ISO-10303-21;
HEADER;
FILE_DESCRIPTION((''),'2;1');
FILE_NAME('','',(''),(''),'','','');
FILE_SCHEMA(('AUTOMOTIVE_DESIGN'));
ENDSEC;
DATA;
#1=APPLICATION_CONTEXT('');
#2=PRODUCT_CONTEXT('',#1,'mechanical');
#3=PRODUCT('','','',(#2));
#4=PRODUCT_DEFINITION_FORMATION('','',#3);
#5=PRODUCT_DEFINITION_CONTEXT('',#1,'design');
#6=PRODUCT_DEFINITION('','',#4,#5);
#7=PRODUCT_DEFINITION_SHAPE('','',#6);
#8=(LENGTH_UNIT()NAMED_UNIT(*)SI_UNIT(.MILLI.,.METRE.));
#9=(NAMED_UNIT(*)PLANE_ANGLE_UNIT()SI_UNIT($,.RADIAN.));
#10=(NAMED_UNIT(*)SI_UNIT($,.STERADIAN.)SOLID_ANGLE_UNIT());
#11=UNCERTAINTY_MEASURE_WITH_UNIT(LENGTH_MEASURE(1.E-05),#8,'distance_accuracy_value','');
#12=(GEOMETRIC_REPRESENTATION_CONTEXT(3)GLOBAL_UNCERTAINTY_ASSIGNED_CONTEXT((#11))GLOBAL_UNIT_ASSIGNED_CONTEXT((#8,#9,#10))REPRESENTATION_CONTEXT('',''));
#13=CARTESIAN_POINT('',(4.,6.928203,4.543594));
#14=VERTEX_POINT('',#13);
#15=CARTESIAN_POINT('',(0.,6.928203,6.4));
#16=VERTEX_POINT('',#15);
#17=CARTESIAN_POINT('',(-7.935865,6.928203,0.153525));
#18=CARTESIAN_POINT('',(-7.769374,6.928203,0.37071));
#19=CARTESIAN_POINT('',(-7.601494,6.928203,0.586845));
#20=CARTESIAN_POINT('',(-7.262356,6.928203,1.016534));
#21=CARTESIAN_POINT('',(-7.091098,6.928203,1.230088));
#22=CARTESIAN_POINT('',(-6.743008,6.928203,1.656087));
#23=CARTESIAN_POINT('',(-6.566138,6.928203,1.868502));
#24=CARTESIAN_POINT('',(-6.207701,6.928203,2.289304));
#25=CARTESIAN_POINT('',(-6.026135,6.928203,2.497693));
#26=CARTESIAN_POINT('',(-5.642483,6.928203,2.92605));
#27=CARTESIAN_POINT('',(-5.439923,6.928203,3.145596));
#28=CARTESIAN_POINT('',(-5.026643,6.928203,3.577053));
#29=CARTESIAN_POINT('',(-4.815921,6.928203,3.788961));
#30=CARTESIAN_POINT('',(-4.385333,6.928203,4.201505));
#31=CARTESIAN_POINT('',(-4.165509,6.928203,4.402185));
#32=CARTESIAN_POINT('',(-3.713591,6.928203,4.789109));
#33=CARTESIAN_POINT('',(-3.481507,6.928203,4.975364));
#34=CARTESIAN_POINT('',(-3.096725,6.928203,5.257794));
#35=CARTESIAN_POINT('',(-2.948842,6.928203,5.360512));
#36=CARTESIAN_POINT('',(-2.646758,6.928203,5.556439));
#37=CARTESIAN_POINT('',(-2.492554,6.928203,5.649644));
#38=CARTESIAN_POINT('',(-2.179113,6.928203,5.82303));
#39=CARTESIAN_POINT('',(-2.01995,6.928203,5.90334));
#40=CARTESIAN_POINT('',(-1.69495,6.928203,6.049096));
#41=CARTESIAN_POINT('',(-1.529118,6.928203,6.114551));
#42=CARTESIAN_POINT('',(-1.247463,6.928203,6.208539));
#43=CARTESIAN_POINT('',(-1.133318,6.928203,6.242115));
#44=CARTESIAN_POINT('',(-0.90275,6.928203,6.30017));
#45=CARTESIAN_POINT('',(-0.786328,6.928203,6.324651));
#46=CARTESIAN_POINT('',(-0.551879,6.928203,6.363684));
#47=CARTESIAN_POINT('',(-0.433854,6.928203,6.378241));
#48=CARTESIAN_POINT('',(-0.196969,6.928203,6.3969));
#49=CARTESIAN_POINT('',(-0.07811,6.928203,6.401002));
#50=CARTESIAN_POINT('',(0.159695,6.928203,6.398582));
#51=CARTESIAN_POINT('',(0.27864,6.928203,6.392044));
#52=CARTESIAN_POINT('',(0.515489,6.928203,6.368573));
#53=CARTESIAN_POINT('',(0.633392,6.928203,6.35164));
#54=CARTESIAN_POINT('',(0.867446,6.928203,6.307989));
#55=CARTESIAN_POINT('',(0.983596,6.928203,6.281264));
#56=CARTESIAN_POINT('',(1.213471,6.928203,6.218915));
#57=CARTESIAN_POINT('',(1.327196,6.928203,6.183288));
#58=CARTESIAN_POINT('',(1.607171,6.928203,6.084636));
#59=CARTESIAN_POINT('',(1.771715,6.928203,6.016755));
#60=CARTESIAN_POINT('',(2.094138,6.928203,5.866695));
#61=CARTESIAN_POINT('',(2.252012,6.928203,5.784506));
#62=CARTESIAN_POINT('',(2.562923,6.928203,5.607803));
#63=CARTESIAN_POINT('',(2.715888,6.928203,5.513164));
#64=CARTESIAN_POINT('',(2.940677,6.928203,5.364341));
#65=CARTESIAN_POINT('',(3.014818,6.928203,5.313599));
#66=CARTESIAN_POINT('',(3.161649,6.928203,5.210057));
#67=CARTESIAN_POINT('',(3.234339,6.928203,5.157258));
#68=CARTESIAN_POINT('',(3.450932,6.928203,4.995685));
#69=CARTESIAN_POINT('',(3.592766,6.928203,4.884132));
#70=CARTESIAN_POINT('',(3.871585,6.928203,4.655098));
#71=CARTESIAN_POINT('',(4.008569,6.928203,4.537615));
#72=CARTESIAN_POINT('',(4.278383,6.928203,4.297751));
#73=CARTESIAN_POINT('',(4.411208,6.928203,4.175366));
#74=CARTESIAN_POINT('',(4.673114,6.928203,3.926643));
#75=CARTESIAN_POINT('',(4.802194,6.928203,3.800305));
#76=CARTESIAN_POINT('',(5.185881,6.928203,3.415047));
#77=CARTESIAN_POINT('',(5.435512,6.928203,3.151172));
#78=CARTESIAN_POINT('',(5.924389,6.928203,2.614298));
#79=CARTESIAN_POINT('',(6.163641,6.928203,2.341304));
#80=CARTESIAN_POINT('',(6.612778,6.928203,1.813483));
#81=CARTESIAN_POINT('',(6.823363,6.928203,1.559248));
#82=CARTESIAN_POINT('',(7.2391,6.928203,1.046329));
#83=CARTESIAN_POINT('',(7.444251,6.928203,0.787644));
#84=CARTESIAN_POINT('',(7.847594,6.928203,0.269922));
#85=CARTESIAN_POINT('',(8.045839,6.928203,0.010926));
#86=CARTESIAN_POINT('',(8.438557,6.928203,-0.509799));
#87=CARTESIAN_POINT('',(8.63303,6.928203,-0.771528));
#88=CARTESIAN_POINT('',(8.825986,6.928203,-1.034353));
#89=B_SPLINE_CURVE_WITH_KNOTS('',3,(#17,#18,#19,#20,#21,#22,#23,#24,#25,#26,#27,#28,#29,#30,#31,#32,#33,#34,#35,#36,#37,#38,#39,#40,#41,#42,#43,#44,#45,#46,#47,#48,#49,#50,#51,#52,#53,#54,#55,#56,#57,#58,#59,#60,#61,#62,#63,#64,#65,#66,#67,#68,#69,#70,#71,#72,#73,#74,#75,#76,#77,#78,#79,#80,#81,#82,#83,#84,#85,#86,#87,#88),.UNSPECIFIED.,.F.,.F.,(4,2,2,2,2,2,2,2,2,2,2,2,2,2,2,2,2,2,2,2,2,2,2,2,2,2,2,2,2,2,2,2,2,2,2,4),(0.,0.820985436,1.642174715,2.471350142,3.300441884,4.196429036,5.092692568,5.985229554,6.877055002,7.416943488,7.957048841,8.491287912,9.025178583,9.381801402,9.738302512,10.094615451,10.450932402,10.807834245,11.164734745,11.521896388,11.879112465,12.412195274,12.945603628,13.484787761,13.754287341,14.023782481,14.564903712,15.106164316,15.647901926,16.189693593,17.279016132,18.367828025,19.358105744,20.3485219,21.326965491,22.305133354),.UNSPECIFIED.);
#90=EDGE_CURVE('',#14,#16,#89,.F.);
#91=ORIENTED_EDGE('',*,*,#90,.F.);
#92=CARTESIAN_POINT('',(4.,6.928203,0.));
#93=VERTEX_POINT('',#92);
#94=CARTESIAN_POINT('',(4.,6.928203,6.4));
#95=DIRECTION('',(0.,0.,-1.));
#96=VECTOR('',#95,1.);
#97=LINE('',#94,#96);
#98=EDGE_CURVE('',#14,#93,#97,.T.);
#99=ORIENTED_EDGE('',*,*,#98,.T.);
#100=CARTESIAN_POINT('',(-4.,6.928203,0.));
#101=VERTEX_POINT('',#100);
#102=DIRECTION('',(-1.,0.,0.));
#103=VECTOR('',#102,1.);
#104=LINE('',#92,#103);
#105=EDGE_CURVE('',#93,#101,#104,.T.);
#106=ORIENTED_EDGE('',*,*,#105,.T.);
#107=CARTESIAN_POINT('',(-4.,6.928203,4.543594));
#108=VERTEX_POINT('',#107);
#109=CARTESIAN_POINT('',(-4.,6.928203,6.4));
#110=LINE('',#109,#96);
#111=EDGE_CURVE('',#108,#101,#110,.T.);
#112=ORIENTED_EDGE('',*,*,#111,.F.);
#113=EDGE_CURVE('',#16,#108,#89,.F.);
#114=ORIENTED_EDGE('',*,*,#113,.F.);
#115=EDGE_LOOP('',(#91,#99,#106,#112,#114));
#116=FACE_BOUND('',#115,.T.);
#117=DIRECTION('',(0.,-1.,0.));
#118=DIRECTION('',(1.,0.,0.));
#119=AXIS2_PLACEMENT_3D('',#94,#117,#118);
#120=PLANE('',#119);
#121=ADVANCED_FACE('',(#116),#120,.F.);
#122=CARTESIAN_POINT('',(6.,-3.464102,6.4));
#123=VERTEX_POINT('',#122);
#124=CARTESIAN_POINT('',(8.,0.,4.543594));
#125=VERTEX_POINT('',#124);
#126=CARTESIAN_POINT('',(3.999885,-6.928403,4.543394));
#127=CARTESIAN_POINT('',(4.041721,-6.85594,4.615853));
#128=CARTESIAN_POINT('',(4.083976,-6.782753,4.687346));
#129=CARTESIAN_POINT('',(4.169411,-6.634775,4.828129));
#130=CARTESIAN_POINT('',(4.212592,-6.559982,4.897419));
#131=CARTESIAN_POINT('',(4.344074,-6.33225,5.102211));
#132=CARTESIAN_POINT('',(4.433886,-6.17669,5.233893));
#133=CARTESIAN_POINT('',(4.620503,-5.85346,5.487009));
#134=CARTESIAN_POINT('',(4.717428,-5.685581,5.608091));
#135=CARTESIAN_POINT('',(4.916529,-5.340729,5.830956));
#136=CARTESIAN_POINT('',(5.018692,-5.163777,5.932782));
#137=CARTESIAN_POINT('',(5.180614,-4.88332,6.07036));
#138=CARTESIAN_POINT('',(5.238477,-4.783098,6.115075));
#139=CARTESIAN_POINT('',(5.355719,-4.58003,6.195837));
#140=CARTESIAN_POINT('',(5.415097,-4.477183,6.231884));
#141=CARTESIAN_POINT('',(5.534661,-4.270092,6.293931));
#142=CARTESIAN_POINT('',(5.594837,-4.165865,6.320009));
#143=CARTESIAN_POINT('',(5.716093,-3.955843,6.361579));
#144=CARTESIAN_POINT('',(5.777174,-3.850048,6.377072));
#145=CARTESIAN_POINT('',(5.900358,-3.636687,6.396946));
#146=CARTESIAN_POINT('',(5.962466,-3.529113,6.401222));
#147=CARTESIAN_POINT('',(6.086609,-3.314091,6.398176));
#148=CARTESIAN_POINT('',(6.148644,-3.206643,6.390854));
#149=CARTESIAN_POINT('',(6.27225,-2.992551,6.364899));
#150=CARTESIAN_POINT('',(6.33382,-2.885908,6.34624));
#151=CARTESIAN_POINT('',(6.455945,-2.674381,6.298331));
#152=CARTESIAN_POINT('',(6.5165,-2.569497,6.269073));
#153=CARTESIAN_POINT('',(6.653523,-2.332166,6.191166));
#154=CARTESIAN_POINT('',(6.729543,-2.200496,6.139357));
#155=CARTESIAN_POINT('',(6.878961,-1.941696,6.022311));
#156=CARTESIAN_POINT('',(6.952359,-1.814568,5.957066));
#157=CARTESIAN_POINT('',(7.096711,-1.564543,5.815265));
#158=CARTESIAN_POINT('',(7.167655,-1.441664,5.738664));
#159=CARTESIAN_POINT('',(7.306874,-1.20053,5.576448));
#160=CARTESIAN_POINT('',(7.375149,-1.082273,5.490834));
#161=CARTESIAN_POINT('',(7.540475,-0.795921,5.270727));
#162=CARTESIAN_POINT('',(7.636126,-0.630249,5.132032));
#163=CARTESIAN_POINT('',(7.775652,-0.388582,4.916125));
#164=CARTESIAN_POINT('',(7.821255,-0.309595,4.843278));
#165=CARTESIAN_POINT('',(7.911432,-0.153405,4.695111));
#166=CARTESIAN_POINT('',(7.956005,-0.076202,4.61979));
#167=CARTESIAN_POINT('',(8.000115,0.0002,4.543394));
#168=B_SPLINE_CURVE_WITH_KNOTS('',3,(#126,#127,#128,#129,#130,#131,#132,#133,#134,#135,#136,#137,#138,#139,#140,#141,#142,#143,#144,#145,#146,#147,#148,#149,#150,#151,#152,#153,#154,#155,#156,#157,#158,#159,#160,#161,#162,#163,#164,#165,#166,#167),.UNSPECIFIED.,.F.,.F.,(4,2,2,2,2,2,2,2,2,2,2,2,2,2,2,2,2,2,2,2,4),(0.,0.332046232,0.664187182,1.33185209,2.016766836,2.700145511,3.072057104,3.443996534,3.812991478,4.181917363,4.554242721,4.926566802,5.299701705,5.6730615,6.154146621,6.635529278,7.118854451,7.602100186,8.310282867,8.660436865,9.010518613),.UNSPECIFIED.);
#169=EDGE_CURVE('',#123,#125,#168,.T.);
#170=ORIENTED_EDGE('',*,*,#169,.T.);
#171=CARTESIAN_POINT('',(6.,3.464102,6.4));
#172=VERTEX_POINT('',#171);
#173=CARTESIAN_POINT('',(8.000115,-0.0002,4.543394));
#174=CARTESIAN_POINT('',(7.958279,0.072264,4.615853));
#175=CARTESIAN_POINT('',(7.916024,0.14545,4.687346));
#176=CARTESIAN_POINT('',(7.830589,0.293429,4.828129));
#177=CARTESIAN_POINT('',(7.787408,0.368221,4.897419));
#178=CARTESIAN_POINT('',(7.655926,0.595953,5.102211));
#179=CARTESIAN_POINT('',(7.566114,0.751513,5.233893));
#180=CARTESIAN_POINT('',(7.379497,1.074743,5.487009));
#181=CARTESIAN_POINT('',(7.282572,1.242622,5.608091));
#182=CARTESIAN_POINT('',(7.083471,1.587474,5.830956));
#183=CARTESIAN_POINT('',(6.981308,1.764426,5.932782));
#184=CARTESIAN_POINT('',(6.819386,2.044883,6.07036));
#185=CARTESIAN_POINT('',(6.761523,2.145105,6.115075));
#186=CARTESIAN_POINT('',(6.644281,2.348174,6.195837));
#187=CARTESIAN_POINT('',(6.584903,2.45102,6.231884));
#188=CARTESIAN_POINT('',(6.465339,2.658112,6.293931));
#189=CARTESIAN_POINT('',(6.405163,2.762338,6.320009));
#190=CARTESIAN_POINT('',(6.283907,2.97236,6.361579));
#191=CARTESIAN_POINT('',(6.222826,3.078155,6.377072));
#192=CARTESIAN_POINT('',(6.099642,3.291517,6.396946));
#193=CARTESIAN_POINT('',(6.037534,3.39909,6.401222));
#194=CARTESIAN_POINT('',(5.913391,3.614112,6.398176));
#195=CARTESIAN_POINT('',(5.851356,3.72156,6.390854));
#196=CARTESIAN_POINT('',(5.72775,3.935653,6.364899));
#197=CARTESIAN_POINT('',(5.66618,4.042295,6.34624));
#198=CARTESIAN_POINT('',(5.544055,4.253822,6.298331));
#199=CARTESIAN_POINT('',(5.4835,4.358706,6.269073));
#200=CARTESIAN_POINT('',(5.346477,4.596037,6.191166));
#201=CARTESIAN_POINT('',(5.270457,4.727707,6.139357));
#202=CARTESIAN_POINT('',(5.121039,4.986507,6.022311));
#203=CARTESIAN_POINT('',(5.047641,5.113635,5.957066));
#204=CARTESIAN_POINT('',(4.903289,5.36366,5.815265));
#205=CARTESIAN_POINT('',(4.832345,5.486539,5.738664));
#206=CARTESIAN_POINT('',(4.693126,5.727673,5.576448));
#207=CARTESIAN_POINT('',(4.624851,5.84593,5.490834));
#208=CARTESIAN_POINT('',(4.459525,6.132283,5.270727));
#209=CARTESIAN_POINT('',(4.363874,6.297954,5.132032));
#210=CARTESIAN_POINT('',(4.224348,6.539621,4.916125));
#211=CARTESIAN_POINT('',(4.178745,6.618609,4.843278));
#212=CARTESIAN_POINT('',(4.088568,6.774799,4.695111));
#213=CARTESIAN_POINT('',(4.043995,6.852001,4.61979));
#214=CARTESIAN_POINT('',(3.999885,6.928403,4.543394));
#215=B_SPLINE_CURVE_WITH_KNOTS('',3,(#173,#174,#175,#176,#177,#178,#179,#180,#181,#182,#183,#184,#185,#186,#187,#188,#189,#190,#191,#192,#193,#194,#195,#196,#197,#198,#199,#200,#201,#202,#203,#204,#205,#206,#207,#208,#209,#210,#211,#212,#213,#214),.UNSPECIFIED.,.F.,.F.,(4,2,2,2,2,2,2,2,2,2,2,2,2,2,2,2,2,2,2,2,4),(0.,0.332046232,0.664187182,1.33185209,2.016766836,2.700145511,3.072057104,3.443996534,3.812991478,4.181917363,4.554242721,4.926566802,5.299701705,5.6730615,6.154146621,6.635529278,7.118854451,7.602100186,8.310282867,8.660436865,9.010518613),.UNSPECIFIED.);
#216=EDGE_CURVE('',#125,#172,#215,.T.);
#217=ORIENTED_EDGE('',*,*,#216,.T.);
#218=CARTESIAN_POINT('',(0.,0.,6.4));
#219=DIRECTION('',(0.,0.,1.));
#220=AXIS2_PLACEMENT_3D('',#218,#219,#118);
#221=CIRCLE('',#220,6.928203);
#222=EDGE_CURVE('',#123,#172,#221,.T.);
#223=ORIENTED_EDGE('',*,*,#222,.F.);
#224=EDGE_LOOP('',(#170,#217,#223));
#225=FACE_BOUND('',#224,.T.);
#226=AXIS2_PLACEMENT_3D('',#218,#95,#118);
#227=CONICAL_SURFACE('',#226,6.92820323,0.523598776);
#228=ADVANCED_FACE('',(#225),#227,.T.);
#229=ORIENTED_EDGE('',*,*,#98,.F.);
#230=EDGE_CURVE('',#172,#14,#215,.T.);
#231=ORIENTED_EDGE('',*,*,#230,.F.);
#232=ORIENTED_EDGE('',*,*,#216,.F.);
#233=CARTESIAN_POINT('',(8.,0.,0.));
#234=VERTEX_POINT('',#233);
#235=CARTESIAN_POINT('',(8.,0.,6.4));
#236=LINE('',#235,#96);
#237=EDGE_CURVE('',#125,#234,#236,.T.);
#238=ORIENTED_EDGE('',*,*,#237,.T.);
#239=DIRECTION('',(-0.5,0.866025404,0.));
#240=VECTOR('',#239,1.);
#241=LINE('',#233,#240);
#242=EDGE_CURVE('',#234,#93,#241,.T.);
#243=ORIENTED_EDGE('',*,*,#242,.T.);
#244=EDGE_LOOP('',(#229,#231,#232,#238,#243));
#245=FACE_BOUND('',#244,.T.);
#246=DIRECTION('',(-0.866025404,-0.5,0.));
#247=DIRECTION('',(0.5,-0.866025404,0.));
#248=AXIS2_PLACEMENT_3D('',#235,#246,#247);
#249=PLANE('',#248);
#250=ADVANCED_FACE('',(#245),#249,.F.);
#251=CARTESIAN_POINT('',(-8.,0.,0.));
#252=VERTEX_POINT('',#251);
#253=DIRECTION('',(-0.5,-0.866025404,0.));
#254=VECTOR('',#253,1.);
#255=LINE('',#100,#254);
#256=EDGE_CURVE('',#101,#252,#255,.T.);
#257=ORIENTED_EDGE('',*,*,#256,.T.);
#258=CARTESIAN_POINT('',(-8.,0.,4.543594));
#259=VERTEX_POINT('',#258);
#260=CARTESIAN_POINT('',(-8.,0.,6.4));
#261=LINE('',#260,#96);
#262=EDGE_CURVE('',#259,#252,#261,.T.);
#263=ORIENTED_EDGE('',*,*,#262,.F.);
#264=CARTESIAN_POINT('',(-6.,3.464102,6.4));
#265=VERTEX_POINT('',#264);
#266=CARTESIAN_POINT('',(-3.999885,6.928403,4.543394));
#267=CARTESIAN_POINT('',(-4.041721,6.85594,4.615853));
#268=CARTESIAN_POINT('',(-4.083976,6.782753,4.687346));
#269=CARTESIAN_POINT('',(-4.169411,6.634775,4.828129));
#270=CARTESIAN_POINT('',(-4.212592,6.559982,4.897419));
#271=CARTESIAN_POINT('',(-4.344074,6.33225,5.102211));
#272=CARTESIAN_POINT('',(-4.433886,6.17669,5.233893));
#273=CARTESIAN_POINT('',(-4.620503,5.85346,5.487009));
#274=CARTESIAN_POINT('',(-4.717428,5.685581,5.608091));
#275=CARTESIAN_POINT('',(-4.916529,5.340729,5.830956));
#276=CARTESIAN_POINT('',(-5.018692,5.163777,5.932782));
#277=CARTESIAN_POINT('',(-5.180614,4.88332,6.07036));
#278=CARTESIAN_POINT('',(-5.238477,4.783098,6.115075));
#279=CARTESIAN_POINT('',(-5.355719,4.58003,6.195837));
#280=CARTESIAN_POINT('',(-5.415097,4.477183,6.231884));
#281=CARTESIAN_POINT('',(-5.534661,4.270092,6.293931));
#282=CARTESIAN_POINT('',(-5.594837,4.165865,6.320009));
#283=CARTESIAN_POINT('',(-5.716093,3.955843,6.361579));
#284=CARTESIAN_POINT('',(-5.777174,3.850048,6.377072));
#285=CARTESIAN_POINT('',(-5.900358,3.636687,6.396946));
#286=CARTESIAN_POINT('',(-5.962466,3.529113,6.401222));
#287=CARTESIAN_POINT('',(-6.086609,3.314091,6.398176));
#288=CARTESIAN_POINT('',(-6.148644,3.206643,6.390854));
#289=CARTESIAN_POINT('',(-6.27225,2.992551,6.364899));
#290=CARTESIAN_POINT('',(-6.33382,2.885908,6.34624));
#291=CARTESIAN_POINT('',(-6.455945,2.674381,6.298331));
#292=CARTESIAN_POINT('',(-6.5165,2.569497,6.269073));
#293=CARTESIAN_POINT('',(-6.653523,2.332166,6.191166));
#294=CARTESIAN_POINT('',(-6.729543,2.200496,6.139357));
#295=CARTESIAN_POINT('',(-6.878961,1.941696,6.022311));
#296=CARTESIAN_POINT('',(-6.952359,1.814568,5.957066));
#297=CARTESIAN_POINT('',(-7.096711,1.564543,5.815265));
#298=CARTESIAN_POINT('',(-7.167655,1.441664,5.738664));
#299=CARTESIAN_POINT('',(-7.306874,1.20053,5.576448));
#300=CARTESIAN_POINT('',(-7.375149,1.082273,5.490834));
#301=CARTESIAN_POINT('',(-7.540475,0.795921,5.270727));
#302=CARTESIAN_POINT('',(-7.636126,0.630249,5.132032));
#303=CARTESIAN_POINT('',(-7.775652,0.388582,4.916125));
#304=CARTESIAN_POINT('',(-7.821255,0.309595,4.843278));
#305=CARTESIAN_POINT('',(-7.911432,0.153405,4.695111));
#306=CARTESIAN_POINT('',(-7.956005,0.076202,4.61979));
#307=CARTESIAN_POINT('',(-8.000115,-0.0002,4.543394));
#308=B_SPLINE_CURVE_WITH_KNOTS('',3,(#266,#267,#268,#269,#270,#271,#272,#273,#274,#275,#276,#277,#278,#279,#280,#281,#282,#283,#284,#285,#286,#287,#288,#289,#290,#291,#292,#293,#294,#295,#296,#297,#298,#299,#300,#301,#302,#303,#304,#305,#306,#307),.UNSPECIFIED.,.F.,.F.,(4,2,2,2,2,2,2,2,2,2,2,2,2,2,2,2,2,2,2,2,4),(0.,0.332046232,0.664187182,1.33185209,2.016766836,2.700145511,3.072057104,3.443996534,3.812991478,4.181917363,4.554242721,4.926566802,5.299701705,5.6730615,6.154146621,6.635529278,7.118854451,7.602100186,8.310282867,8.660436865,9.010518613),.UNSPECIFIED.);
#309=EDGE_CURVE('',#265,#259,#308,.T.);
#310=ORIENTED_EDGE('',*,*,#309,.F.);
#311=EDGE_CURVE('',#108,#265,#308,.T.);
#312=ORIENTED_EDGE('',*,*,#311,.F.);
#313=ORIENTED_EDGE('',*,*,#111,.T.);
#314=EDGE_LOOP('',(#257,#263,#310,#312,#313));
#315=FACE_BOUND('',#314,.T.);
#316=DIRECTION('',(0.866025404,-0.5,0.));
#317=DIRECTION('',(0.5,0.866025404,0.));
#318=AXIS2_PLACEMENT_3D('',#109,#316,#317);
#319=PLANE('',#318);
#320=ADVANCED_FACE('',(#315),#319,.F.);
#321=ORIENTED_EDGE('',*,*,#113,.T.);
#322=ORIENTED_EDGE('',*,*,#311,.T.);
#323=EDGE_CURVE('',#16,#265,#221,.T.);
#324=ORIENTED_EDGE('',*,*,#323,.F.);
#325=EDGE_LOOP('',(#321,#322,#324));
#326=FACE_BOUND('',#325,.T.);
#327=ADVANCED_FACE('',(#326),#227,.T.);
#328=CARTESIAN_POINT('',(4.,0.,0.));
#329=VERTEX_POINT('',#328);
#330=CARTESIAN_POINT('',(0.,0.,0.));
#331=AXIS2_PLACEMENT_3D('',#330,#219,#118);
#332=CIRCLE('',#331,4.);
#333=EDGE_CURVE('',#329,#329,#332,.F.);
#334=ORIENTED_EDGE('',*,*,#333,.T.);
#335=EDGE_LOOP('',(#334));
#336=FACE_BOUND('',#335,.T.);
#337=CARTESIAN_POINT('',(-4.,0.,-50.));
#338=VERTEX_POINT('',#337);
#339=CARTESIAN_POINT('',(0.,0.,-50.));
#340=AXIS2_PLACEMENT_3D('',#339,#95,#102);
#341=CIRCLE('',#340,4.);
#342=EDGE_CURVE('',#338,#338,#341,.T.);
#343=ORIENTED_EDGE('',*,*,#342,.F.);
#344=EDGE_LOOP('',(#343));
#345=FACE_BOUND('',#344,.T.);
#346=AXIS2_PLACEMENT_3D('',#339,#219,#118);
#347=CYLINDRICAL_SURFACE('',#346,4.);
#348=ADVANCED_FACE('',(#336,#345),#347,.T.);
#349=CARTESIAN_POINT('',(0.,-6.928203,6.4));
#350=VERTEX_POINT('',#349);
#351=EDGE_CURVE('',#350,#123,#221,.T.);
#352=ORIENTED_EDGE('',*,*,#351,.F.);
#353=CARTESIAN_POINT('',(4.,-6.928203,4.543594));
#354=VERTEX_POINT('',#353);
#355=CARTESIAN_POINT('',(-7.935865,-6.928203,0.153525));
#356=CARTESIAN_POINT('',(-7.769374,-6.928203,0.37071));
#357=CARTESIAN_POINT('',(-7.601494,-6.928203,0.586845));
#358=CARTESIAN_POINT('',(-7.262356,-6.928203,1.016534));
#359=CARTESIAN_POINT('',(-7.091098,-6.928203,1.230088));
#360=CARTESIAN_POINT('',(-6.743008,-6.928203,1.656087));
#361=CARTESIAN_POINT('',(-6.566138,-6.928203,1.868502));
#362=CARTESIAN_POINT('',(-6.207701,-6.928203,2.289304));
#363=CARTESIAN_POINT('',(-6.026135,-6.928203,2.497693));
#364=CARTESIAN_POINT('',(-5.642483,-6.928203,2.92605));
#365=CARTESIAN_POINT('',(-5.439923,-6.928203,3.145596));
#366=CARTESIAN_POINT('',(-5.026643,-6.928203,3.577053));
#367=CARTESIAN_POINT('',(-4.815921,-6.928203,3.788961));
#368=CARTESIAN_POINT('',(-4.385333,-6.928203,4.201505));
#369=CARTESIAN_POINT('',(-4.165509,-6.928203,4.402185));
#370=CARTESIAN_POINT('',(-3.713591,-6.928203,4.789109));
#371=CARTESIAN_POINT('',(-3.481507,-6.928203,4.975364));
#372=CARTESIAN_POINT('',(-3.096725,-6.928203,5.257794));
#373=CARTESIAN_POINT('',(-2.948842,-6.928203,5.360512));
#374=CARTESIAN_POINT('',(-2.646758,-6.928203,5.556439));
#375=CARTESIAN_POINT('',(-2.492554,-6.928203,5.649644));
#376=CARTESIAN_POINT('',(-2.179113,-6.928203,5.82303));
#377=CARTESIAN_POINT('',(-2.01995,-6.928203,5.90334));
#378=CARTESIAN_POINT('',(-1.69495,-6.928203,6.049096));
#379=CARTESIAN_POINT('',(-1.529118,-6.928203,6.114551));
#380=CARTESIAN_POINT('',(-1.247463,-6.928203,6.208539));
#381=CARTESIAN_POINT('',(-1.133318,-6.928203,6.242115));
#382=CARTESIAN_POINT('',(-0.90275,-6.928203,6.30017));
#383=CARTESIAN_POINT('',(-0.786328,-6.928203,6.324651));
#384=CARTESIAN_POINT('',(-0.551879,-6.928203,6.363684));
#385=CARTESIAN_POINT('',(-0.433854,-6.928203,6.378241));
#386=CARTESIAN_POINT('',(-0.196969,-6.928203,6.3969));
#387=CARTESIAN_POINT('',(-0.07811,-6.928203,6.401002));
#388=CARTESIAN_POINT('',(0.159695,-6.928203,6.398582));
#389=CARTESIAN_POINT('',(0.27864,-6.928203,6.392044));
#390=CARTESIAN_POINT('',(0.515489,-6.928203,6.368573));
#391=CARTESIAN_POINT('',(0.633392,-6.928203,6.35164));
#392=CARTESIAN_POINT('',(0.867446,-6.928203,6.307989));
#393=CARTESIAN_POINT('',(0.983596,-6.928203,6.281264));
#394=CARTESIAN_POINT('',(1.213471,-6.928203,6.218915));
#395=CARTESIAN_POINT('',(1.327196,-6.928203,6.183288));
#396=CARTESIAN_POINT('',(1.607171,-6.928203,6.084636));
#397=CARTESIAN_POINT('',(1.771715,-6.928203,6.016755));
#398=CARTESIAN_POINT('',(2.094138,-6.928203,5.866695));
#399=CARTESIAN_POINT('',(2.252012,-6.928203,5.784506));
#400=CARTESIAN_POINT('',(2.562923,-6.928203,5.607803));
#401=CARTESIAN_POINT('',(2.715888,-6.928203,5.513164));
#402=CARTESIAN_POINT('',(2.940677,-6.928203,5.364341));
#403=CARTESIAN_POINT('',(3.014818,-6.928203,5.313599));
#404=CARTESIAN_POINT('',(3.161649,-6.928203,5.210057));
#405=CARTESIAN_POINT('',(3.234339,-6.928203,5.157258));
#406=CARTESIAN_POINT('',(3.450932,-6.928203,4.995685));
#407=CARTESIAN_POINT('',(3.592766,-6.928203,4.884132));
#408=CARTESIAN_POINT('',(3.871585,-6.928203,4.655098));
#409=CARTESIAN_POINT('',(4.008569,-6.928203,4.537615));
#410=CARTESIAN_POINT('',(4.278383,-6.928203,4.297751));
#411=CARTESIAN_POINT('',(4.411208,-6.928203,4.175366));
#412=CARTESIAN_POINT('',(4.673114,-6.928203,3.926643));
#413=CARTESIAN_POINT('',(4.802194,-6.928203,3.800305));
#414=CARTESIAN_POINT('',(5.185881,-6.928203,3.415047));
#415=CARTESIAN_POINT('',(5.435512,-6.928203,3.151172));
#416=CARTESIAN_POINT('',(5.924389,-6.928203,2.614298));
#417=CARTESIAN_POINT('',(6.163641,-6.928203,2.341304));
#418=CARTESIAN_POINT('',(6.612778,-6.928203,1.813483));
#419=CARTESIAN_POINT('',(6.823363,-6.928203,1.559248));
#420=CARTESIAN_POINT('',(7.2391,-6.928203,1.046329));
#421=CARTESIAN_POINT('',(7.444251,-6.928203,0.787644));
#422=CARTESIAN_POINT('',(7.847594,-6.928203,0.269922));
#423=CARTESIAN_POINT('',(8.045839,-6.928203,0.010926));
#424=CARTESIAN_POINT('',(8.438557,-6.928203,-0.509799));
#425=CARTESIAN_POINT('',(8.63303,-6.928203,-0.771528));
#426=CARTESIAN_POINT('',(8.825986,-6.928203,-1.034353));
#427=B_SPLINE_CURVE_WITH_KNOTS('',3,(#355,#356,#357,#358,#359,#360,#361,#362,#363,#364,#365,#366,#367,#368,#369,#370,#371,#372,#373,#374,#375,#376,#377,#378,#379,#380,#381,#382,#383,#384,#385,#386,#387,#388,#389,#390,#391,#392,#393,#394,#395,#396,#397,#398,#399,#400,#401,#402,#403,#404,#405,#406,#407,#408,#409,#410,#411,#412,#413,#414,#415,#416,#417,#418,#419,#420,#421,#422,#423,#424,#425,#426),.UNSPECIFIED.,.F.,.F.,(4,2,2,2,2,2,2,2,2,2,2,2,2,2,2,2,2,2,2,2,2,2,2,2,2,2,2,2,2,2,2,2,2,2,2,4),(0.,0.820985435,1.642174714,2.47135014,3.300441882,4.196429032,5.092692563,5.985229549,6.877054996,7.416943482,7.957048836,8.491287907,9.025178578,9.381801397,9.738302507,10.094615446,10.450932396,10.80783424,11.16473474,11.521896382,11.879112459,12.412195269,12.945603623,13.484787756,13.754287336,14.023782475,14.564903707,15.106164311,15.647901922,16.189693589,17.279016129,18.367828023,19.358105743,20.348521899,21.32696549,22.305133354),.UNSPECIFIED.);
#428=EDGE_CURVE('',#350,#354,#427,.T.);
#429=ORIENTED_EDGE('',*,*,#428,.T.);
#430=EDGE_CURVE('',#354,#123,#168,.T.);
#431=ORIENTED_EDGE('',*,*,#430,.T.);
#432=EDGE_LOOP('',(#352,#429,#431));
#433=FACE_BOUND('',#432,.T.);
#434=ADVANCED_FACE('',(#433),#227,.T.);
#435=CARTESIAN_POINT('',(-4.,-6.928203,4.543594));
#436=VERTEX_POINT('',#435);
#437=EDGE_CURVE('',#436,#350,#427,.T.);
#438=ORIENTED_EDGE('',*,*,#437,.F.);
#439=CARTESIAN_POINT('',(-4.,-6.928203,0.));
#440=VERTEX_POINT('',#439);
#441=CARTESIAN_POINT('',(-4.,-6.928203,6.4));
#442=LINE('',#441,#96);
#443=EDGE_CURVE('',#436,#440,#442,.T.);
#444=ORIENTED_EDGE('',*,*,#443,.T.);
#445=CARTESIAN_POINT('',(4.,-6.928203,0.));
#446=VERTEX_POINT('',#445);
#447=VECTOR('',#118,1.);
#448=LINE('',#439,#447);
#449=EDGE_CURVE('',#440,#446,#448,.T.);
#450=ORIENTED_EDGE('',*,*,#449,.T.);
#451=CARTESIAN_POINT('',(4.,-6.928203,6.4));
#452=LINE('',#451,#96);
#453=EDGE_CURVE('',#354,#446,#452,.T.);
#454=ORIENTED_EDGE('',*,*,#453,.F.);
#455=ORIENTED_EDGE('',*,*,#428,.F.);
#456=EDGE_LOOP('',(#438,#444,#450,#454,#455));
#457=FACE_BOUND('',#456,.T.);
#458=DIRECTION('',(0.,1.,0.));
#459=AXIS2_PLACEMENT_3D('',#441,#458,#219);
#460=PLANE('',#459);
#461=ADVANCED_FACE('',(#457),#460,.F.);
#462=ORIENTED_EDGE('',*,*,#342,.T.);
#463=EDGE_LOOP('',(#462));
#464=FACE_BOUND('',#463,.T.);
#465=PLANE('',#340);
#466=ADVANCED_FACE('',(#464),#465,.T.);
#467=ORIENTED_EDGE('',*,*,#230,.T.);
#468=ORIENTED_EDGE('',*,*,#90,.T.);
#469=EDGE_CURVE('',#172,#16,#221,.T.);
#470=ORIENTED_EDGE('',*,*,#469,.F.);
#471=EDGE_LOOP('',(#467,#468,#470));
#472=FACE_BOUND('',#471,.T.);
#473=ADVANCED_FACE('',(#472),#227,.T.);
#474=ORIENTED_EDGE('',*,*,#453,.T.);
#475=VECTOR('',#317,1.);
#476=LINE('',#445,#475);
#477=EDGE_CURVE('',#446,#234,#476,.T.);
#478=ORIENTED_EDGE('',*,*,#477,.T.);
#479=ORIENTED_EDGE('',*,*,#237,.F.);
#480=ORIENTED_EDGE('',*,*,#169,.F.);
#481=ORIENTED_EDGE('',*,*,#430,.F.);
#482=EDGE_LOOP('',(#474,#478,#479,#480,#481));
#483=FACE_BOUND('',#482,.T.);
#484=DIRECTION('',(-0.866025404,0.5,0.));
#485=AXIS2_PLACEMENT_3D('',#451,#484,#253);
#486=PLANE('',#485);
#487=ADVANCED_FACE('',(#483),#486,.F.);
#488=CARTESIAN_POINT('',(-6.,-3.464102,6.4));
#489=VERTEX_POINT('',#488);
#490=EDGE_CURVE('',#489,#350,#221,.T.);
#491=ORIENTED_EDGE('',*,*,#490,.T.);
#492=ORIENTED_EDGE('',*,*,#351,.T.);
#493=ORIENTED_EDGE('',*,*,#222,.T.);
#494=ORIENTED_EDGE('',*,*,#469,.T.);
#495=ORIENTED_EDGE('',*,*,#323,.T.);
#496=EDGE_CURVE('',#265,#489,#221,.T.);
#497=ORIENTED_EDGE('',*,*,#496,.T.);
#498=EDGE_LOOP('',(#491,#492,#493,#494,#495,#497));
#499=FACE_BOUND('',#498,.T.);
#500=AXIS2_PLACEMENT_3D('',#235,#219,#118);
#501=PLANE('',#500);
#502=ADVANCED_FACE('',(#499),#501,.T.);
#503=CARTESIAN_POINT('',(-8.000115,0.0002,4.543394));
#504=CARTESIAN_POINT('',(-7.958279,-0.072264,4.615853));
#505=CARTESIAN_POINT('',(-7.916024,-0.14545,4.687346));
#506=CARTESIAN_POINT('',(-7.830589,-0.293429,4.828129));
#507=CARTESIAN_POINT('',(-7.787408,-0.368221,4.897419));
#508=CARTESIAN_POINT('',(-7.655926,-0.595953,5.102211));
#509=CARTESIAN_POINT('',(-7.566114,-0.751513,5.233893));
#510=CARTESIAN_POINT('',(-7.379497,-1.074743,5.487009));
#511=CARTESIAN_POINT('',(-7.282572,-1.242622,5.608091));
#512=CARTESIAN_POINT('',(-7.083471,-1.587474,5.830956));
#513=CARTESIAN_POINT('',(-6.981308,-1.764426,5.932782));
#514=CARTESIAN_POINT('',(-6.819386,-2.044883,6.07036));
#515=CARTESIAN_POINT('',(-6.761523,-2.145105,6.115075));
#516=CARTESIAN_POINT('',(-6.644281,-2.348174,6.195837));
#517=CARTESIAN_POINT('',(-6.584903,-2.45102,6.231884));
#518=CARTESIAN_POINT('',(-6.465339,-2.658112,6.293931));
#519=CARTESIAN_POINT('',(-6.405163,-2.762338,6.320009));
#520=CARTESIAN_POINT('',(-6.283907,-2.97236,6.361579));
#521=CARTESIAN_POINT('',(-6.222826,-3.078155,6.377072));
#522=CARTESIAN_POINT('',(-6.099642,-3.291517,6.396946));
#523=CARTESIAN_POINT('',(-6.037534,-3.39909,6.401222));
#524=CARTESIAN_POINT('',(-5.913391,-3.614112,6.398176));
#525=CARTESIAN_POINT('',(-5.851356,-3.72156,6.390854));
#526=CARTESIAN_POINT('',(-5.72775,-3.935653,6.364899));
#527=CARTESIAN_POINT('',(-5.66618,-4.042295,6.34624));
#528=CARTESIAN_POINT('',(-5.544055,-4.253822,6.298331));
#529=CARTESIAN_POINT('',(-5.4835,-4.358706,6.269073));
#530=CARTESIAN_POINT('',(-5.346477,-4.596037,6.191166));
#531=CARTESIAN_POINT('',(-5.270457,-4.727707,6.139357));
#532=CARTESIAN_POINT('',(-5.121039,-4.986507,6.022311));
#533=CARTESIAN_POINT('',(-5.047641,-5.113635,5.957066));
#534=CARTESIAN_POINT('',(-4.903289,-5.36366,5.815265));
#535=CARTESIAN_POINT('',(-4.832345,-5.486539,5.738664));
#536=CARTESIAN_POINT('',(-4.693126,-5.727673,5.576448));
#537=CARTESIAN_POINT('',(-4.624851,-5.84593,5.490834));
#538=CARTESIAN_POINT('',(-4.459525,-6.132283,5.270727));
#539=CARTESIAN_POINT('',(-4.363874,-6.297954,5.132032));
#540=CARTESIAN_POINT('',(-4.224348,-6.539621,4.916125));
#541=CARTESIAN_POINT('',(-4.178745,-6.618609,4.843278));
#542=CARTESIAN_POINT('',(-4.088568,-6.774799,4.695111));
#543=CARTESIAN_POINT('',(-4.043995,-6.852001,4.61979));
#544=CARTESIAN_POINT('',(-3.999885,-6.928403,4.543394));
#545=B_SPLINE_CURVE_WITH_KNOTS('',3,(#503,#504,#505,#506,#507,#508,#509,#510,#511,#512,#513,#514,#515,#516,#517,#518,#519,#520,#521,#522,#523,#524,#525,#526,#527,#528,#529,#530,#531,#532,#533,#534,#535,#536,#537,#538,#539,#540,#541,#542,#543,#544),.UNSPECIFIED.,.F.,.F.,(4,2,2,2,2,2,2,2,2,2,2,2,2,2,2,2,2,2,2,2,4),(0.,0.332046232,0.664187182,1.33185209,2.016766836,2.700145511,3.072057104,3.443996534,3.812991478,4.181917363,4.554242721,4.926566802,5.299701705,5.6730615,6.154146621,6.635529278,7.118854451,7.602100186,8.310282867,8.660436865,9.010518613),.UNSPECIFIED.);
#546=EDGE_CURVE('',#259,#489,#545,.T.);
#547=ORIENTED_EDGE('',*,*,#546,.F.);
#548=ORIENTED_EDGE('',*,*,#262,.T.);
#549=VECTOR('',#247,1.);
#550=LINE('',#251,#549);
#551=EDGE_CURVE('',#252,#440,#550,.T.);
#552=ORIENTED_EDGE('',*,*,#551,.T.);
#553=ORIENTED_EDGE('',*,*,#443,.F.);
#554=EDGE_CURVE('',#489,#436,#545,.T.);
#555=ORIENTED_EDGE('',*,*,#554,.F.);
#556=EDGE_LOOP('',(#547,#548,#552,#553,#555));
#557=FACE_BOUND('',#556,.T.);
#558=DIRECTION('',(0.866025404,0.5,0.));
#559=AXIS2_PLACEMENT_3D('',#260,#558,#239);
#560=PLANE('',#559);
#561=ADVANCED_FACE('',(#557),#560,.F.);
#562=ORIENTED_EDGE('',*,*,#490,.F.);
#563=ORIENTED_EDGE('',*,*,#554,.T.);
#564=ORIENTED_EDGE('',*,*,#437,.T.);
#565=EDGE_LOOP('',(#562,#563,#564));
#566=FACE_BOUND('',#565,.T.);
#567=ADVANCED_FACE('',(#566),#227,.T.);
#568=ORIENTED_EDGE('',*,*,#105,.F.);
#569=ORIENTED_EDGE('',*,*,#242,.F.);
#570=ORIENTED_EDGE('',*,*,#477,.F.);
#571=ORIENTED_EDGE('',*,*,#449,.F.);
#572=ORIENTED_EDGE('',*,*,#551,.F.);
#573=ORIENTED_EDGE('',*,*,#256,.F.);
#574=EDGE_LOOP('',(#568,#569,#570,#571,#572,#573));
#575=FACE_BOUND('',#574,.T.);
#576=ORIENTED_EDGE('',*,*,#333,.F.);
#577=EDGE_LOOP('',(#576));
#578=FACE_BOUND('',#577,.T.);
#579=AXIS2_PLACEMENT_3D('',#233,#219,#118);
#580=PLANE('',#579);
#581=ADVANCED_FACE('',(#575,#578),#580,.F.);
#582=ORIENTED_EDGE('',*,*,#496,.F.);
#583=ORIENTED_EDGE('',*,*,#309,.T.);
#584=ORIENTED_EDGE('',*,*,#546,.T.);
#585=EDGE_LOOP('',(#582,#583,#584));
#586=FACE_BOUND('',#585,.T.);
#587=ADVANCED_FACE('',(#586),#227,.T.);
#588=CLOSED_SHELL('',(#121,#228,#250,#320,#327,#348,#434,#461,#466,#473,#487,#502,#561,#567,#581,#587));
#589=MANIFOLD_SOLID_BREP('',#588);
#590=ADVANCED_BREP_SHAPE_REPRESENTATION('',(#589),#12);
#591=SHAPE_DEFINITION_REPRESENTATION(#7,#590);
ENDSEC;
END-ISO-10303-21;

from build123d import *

# Parameters (mm, degrees)
BOSS_EXTRUDE1_DEPTH = 6.4
SKETCH2_OUTSIDE_W   = 29.812
SKETCH2_OUTSIDE_H   = 27.668
SKETCH2_OUTSIDE_R   = 6.92820323
CUT_EXTRUDE1_DEPTH  = 6.4
CUT_EXTRUDE1_DRAFT  = -30
SKETCH3_R           = 4
BOSS_EXTRUDE2_DEPTH = 50


with BuildPart() as part:
    # Sketch1 → Boss-Extrude1 (new body)
    with BuildSketch(Plane.XY):
        Polygon((8, 0), (4, 6.92820323), (-4, 6.92820323), (-8, 0), (-4, -6.92820323), (4, -6.92820323), align=None)
    extrude(amount=BOSS_EXTRUDE1_DEPTH)


with BuildPart() as cut_extrude1_tool:
    # Sketch2 outside → Cut-Extrude1 (with draft: the straight prism first)
    with BuildSketch(Plane.XY.offset(6.4)):
        Rectangle(SKETCH2_OUTSIDE_W, SKETCH2_OUTSIDE_H)
        Circle(SKETCH2_OUTSIDE_R, mode=Mode.SUBTRACT)
    extrude(amount=-CUT_EXTRUDE1_DEPTH)
    # Cut-Extrude1: the draft: its side faces are tilted about the plane it starts from
    cut_extrude1_sides = [cut_extrude1_tool.faces().sort_by_distance(p)[0] for p in [
        (0, -13.834, 3.2),
        (14.906, 0, 3.2),
        (0, 13.834, 3.2),
        (-14.906, 0, 3.2),
        (-6.92820323, 0, 3.2),
    ]]
    draft(cut_extrude1_sides, Plane.XY.offset(6.4), CUT_EXTRUDE1_DRAFT)


with BuildPart() as part_1:
    add(part.part)

    # Cut-Extrude1: cut by cut_extrude1_tool
    add(cut_extrude1_tool.part, mode=Mode.SUBTRACT)

    # Sketch3 → Boss-Extrude2 (add)
    with BuildSketch(Plane(origin=(0, 0, 0), x_dir=(-1, 0, 0), z_dir=(0, 0, -1))):
        with Locations(Location((0, 0, 0), (0, 0, 180))):
            Circle(SKETCH3_R)
    extrude(amount=BOSS_EXTRUDE2_DEPTH)


solid = part_1.part
